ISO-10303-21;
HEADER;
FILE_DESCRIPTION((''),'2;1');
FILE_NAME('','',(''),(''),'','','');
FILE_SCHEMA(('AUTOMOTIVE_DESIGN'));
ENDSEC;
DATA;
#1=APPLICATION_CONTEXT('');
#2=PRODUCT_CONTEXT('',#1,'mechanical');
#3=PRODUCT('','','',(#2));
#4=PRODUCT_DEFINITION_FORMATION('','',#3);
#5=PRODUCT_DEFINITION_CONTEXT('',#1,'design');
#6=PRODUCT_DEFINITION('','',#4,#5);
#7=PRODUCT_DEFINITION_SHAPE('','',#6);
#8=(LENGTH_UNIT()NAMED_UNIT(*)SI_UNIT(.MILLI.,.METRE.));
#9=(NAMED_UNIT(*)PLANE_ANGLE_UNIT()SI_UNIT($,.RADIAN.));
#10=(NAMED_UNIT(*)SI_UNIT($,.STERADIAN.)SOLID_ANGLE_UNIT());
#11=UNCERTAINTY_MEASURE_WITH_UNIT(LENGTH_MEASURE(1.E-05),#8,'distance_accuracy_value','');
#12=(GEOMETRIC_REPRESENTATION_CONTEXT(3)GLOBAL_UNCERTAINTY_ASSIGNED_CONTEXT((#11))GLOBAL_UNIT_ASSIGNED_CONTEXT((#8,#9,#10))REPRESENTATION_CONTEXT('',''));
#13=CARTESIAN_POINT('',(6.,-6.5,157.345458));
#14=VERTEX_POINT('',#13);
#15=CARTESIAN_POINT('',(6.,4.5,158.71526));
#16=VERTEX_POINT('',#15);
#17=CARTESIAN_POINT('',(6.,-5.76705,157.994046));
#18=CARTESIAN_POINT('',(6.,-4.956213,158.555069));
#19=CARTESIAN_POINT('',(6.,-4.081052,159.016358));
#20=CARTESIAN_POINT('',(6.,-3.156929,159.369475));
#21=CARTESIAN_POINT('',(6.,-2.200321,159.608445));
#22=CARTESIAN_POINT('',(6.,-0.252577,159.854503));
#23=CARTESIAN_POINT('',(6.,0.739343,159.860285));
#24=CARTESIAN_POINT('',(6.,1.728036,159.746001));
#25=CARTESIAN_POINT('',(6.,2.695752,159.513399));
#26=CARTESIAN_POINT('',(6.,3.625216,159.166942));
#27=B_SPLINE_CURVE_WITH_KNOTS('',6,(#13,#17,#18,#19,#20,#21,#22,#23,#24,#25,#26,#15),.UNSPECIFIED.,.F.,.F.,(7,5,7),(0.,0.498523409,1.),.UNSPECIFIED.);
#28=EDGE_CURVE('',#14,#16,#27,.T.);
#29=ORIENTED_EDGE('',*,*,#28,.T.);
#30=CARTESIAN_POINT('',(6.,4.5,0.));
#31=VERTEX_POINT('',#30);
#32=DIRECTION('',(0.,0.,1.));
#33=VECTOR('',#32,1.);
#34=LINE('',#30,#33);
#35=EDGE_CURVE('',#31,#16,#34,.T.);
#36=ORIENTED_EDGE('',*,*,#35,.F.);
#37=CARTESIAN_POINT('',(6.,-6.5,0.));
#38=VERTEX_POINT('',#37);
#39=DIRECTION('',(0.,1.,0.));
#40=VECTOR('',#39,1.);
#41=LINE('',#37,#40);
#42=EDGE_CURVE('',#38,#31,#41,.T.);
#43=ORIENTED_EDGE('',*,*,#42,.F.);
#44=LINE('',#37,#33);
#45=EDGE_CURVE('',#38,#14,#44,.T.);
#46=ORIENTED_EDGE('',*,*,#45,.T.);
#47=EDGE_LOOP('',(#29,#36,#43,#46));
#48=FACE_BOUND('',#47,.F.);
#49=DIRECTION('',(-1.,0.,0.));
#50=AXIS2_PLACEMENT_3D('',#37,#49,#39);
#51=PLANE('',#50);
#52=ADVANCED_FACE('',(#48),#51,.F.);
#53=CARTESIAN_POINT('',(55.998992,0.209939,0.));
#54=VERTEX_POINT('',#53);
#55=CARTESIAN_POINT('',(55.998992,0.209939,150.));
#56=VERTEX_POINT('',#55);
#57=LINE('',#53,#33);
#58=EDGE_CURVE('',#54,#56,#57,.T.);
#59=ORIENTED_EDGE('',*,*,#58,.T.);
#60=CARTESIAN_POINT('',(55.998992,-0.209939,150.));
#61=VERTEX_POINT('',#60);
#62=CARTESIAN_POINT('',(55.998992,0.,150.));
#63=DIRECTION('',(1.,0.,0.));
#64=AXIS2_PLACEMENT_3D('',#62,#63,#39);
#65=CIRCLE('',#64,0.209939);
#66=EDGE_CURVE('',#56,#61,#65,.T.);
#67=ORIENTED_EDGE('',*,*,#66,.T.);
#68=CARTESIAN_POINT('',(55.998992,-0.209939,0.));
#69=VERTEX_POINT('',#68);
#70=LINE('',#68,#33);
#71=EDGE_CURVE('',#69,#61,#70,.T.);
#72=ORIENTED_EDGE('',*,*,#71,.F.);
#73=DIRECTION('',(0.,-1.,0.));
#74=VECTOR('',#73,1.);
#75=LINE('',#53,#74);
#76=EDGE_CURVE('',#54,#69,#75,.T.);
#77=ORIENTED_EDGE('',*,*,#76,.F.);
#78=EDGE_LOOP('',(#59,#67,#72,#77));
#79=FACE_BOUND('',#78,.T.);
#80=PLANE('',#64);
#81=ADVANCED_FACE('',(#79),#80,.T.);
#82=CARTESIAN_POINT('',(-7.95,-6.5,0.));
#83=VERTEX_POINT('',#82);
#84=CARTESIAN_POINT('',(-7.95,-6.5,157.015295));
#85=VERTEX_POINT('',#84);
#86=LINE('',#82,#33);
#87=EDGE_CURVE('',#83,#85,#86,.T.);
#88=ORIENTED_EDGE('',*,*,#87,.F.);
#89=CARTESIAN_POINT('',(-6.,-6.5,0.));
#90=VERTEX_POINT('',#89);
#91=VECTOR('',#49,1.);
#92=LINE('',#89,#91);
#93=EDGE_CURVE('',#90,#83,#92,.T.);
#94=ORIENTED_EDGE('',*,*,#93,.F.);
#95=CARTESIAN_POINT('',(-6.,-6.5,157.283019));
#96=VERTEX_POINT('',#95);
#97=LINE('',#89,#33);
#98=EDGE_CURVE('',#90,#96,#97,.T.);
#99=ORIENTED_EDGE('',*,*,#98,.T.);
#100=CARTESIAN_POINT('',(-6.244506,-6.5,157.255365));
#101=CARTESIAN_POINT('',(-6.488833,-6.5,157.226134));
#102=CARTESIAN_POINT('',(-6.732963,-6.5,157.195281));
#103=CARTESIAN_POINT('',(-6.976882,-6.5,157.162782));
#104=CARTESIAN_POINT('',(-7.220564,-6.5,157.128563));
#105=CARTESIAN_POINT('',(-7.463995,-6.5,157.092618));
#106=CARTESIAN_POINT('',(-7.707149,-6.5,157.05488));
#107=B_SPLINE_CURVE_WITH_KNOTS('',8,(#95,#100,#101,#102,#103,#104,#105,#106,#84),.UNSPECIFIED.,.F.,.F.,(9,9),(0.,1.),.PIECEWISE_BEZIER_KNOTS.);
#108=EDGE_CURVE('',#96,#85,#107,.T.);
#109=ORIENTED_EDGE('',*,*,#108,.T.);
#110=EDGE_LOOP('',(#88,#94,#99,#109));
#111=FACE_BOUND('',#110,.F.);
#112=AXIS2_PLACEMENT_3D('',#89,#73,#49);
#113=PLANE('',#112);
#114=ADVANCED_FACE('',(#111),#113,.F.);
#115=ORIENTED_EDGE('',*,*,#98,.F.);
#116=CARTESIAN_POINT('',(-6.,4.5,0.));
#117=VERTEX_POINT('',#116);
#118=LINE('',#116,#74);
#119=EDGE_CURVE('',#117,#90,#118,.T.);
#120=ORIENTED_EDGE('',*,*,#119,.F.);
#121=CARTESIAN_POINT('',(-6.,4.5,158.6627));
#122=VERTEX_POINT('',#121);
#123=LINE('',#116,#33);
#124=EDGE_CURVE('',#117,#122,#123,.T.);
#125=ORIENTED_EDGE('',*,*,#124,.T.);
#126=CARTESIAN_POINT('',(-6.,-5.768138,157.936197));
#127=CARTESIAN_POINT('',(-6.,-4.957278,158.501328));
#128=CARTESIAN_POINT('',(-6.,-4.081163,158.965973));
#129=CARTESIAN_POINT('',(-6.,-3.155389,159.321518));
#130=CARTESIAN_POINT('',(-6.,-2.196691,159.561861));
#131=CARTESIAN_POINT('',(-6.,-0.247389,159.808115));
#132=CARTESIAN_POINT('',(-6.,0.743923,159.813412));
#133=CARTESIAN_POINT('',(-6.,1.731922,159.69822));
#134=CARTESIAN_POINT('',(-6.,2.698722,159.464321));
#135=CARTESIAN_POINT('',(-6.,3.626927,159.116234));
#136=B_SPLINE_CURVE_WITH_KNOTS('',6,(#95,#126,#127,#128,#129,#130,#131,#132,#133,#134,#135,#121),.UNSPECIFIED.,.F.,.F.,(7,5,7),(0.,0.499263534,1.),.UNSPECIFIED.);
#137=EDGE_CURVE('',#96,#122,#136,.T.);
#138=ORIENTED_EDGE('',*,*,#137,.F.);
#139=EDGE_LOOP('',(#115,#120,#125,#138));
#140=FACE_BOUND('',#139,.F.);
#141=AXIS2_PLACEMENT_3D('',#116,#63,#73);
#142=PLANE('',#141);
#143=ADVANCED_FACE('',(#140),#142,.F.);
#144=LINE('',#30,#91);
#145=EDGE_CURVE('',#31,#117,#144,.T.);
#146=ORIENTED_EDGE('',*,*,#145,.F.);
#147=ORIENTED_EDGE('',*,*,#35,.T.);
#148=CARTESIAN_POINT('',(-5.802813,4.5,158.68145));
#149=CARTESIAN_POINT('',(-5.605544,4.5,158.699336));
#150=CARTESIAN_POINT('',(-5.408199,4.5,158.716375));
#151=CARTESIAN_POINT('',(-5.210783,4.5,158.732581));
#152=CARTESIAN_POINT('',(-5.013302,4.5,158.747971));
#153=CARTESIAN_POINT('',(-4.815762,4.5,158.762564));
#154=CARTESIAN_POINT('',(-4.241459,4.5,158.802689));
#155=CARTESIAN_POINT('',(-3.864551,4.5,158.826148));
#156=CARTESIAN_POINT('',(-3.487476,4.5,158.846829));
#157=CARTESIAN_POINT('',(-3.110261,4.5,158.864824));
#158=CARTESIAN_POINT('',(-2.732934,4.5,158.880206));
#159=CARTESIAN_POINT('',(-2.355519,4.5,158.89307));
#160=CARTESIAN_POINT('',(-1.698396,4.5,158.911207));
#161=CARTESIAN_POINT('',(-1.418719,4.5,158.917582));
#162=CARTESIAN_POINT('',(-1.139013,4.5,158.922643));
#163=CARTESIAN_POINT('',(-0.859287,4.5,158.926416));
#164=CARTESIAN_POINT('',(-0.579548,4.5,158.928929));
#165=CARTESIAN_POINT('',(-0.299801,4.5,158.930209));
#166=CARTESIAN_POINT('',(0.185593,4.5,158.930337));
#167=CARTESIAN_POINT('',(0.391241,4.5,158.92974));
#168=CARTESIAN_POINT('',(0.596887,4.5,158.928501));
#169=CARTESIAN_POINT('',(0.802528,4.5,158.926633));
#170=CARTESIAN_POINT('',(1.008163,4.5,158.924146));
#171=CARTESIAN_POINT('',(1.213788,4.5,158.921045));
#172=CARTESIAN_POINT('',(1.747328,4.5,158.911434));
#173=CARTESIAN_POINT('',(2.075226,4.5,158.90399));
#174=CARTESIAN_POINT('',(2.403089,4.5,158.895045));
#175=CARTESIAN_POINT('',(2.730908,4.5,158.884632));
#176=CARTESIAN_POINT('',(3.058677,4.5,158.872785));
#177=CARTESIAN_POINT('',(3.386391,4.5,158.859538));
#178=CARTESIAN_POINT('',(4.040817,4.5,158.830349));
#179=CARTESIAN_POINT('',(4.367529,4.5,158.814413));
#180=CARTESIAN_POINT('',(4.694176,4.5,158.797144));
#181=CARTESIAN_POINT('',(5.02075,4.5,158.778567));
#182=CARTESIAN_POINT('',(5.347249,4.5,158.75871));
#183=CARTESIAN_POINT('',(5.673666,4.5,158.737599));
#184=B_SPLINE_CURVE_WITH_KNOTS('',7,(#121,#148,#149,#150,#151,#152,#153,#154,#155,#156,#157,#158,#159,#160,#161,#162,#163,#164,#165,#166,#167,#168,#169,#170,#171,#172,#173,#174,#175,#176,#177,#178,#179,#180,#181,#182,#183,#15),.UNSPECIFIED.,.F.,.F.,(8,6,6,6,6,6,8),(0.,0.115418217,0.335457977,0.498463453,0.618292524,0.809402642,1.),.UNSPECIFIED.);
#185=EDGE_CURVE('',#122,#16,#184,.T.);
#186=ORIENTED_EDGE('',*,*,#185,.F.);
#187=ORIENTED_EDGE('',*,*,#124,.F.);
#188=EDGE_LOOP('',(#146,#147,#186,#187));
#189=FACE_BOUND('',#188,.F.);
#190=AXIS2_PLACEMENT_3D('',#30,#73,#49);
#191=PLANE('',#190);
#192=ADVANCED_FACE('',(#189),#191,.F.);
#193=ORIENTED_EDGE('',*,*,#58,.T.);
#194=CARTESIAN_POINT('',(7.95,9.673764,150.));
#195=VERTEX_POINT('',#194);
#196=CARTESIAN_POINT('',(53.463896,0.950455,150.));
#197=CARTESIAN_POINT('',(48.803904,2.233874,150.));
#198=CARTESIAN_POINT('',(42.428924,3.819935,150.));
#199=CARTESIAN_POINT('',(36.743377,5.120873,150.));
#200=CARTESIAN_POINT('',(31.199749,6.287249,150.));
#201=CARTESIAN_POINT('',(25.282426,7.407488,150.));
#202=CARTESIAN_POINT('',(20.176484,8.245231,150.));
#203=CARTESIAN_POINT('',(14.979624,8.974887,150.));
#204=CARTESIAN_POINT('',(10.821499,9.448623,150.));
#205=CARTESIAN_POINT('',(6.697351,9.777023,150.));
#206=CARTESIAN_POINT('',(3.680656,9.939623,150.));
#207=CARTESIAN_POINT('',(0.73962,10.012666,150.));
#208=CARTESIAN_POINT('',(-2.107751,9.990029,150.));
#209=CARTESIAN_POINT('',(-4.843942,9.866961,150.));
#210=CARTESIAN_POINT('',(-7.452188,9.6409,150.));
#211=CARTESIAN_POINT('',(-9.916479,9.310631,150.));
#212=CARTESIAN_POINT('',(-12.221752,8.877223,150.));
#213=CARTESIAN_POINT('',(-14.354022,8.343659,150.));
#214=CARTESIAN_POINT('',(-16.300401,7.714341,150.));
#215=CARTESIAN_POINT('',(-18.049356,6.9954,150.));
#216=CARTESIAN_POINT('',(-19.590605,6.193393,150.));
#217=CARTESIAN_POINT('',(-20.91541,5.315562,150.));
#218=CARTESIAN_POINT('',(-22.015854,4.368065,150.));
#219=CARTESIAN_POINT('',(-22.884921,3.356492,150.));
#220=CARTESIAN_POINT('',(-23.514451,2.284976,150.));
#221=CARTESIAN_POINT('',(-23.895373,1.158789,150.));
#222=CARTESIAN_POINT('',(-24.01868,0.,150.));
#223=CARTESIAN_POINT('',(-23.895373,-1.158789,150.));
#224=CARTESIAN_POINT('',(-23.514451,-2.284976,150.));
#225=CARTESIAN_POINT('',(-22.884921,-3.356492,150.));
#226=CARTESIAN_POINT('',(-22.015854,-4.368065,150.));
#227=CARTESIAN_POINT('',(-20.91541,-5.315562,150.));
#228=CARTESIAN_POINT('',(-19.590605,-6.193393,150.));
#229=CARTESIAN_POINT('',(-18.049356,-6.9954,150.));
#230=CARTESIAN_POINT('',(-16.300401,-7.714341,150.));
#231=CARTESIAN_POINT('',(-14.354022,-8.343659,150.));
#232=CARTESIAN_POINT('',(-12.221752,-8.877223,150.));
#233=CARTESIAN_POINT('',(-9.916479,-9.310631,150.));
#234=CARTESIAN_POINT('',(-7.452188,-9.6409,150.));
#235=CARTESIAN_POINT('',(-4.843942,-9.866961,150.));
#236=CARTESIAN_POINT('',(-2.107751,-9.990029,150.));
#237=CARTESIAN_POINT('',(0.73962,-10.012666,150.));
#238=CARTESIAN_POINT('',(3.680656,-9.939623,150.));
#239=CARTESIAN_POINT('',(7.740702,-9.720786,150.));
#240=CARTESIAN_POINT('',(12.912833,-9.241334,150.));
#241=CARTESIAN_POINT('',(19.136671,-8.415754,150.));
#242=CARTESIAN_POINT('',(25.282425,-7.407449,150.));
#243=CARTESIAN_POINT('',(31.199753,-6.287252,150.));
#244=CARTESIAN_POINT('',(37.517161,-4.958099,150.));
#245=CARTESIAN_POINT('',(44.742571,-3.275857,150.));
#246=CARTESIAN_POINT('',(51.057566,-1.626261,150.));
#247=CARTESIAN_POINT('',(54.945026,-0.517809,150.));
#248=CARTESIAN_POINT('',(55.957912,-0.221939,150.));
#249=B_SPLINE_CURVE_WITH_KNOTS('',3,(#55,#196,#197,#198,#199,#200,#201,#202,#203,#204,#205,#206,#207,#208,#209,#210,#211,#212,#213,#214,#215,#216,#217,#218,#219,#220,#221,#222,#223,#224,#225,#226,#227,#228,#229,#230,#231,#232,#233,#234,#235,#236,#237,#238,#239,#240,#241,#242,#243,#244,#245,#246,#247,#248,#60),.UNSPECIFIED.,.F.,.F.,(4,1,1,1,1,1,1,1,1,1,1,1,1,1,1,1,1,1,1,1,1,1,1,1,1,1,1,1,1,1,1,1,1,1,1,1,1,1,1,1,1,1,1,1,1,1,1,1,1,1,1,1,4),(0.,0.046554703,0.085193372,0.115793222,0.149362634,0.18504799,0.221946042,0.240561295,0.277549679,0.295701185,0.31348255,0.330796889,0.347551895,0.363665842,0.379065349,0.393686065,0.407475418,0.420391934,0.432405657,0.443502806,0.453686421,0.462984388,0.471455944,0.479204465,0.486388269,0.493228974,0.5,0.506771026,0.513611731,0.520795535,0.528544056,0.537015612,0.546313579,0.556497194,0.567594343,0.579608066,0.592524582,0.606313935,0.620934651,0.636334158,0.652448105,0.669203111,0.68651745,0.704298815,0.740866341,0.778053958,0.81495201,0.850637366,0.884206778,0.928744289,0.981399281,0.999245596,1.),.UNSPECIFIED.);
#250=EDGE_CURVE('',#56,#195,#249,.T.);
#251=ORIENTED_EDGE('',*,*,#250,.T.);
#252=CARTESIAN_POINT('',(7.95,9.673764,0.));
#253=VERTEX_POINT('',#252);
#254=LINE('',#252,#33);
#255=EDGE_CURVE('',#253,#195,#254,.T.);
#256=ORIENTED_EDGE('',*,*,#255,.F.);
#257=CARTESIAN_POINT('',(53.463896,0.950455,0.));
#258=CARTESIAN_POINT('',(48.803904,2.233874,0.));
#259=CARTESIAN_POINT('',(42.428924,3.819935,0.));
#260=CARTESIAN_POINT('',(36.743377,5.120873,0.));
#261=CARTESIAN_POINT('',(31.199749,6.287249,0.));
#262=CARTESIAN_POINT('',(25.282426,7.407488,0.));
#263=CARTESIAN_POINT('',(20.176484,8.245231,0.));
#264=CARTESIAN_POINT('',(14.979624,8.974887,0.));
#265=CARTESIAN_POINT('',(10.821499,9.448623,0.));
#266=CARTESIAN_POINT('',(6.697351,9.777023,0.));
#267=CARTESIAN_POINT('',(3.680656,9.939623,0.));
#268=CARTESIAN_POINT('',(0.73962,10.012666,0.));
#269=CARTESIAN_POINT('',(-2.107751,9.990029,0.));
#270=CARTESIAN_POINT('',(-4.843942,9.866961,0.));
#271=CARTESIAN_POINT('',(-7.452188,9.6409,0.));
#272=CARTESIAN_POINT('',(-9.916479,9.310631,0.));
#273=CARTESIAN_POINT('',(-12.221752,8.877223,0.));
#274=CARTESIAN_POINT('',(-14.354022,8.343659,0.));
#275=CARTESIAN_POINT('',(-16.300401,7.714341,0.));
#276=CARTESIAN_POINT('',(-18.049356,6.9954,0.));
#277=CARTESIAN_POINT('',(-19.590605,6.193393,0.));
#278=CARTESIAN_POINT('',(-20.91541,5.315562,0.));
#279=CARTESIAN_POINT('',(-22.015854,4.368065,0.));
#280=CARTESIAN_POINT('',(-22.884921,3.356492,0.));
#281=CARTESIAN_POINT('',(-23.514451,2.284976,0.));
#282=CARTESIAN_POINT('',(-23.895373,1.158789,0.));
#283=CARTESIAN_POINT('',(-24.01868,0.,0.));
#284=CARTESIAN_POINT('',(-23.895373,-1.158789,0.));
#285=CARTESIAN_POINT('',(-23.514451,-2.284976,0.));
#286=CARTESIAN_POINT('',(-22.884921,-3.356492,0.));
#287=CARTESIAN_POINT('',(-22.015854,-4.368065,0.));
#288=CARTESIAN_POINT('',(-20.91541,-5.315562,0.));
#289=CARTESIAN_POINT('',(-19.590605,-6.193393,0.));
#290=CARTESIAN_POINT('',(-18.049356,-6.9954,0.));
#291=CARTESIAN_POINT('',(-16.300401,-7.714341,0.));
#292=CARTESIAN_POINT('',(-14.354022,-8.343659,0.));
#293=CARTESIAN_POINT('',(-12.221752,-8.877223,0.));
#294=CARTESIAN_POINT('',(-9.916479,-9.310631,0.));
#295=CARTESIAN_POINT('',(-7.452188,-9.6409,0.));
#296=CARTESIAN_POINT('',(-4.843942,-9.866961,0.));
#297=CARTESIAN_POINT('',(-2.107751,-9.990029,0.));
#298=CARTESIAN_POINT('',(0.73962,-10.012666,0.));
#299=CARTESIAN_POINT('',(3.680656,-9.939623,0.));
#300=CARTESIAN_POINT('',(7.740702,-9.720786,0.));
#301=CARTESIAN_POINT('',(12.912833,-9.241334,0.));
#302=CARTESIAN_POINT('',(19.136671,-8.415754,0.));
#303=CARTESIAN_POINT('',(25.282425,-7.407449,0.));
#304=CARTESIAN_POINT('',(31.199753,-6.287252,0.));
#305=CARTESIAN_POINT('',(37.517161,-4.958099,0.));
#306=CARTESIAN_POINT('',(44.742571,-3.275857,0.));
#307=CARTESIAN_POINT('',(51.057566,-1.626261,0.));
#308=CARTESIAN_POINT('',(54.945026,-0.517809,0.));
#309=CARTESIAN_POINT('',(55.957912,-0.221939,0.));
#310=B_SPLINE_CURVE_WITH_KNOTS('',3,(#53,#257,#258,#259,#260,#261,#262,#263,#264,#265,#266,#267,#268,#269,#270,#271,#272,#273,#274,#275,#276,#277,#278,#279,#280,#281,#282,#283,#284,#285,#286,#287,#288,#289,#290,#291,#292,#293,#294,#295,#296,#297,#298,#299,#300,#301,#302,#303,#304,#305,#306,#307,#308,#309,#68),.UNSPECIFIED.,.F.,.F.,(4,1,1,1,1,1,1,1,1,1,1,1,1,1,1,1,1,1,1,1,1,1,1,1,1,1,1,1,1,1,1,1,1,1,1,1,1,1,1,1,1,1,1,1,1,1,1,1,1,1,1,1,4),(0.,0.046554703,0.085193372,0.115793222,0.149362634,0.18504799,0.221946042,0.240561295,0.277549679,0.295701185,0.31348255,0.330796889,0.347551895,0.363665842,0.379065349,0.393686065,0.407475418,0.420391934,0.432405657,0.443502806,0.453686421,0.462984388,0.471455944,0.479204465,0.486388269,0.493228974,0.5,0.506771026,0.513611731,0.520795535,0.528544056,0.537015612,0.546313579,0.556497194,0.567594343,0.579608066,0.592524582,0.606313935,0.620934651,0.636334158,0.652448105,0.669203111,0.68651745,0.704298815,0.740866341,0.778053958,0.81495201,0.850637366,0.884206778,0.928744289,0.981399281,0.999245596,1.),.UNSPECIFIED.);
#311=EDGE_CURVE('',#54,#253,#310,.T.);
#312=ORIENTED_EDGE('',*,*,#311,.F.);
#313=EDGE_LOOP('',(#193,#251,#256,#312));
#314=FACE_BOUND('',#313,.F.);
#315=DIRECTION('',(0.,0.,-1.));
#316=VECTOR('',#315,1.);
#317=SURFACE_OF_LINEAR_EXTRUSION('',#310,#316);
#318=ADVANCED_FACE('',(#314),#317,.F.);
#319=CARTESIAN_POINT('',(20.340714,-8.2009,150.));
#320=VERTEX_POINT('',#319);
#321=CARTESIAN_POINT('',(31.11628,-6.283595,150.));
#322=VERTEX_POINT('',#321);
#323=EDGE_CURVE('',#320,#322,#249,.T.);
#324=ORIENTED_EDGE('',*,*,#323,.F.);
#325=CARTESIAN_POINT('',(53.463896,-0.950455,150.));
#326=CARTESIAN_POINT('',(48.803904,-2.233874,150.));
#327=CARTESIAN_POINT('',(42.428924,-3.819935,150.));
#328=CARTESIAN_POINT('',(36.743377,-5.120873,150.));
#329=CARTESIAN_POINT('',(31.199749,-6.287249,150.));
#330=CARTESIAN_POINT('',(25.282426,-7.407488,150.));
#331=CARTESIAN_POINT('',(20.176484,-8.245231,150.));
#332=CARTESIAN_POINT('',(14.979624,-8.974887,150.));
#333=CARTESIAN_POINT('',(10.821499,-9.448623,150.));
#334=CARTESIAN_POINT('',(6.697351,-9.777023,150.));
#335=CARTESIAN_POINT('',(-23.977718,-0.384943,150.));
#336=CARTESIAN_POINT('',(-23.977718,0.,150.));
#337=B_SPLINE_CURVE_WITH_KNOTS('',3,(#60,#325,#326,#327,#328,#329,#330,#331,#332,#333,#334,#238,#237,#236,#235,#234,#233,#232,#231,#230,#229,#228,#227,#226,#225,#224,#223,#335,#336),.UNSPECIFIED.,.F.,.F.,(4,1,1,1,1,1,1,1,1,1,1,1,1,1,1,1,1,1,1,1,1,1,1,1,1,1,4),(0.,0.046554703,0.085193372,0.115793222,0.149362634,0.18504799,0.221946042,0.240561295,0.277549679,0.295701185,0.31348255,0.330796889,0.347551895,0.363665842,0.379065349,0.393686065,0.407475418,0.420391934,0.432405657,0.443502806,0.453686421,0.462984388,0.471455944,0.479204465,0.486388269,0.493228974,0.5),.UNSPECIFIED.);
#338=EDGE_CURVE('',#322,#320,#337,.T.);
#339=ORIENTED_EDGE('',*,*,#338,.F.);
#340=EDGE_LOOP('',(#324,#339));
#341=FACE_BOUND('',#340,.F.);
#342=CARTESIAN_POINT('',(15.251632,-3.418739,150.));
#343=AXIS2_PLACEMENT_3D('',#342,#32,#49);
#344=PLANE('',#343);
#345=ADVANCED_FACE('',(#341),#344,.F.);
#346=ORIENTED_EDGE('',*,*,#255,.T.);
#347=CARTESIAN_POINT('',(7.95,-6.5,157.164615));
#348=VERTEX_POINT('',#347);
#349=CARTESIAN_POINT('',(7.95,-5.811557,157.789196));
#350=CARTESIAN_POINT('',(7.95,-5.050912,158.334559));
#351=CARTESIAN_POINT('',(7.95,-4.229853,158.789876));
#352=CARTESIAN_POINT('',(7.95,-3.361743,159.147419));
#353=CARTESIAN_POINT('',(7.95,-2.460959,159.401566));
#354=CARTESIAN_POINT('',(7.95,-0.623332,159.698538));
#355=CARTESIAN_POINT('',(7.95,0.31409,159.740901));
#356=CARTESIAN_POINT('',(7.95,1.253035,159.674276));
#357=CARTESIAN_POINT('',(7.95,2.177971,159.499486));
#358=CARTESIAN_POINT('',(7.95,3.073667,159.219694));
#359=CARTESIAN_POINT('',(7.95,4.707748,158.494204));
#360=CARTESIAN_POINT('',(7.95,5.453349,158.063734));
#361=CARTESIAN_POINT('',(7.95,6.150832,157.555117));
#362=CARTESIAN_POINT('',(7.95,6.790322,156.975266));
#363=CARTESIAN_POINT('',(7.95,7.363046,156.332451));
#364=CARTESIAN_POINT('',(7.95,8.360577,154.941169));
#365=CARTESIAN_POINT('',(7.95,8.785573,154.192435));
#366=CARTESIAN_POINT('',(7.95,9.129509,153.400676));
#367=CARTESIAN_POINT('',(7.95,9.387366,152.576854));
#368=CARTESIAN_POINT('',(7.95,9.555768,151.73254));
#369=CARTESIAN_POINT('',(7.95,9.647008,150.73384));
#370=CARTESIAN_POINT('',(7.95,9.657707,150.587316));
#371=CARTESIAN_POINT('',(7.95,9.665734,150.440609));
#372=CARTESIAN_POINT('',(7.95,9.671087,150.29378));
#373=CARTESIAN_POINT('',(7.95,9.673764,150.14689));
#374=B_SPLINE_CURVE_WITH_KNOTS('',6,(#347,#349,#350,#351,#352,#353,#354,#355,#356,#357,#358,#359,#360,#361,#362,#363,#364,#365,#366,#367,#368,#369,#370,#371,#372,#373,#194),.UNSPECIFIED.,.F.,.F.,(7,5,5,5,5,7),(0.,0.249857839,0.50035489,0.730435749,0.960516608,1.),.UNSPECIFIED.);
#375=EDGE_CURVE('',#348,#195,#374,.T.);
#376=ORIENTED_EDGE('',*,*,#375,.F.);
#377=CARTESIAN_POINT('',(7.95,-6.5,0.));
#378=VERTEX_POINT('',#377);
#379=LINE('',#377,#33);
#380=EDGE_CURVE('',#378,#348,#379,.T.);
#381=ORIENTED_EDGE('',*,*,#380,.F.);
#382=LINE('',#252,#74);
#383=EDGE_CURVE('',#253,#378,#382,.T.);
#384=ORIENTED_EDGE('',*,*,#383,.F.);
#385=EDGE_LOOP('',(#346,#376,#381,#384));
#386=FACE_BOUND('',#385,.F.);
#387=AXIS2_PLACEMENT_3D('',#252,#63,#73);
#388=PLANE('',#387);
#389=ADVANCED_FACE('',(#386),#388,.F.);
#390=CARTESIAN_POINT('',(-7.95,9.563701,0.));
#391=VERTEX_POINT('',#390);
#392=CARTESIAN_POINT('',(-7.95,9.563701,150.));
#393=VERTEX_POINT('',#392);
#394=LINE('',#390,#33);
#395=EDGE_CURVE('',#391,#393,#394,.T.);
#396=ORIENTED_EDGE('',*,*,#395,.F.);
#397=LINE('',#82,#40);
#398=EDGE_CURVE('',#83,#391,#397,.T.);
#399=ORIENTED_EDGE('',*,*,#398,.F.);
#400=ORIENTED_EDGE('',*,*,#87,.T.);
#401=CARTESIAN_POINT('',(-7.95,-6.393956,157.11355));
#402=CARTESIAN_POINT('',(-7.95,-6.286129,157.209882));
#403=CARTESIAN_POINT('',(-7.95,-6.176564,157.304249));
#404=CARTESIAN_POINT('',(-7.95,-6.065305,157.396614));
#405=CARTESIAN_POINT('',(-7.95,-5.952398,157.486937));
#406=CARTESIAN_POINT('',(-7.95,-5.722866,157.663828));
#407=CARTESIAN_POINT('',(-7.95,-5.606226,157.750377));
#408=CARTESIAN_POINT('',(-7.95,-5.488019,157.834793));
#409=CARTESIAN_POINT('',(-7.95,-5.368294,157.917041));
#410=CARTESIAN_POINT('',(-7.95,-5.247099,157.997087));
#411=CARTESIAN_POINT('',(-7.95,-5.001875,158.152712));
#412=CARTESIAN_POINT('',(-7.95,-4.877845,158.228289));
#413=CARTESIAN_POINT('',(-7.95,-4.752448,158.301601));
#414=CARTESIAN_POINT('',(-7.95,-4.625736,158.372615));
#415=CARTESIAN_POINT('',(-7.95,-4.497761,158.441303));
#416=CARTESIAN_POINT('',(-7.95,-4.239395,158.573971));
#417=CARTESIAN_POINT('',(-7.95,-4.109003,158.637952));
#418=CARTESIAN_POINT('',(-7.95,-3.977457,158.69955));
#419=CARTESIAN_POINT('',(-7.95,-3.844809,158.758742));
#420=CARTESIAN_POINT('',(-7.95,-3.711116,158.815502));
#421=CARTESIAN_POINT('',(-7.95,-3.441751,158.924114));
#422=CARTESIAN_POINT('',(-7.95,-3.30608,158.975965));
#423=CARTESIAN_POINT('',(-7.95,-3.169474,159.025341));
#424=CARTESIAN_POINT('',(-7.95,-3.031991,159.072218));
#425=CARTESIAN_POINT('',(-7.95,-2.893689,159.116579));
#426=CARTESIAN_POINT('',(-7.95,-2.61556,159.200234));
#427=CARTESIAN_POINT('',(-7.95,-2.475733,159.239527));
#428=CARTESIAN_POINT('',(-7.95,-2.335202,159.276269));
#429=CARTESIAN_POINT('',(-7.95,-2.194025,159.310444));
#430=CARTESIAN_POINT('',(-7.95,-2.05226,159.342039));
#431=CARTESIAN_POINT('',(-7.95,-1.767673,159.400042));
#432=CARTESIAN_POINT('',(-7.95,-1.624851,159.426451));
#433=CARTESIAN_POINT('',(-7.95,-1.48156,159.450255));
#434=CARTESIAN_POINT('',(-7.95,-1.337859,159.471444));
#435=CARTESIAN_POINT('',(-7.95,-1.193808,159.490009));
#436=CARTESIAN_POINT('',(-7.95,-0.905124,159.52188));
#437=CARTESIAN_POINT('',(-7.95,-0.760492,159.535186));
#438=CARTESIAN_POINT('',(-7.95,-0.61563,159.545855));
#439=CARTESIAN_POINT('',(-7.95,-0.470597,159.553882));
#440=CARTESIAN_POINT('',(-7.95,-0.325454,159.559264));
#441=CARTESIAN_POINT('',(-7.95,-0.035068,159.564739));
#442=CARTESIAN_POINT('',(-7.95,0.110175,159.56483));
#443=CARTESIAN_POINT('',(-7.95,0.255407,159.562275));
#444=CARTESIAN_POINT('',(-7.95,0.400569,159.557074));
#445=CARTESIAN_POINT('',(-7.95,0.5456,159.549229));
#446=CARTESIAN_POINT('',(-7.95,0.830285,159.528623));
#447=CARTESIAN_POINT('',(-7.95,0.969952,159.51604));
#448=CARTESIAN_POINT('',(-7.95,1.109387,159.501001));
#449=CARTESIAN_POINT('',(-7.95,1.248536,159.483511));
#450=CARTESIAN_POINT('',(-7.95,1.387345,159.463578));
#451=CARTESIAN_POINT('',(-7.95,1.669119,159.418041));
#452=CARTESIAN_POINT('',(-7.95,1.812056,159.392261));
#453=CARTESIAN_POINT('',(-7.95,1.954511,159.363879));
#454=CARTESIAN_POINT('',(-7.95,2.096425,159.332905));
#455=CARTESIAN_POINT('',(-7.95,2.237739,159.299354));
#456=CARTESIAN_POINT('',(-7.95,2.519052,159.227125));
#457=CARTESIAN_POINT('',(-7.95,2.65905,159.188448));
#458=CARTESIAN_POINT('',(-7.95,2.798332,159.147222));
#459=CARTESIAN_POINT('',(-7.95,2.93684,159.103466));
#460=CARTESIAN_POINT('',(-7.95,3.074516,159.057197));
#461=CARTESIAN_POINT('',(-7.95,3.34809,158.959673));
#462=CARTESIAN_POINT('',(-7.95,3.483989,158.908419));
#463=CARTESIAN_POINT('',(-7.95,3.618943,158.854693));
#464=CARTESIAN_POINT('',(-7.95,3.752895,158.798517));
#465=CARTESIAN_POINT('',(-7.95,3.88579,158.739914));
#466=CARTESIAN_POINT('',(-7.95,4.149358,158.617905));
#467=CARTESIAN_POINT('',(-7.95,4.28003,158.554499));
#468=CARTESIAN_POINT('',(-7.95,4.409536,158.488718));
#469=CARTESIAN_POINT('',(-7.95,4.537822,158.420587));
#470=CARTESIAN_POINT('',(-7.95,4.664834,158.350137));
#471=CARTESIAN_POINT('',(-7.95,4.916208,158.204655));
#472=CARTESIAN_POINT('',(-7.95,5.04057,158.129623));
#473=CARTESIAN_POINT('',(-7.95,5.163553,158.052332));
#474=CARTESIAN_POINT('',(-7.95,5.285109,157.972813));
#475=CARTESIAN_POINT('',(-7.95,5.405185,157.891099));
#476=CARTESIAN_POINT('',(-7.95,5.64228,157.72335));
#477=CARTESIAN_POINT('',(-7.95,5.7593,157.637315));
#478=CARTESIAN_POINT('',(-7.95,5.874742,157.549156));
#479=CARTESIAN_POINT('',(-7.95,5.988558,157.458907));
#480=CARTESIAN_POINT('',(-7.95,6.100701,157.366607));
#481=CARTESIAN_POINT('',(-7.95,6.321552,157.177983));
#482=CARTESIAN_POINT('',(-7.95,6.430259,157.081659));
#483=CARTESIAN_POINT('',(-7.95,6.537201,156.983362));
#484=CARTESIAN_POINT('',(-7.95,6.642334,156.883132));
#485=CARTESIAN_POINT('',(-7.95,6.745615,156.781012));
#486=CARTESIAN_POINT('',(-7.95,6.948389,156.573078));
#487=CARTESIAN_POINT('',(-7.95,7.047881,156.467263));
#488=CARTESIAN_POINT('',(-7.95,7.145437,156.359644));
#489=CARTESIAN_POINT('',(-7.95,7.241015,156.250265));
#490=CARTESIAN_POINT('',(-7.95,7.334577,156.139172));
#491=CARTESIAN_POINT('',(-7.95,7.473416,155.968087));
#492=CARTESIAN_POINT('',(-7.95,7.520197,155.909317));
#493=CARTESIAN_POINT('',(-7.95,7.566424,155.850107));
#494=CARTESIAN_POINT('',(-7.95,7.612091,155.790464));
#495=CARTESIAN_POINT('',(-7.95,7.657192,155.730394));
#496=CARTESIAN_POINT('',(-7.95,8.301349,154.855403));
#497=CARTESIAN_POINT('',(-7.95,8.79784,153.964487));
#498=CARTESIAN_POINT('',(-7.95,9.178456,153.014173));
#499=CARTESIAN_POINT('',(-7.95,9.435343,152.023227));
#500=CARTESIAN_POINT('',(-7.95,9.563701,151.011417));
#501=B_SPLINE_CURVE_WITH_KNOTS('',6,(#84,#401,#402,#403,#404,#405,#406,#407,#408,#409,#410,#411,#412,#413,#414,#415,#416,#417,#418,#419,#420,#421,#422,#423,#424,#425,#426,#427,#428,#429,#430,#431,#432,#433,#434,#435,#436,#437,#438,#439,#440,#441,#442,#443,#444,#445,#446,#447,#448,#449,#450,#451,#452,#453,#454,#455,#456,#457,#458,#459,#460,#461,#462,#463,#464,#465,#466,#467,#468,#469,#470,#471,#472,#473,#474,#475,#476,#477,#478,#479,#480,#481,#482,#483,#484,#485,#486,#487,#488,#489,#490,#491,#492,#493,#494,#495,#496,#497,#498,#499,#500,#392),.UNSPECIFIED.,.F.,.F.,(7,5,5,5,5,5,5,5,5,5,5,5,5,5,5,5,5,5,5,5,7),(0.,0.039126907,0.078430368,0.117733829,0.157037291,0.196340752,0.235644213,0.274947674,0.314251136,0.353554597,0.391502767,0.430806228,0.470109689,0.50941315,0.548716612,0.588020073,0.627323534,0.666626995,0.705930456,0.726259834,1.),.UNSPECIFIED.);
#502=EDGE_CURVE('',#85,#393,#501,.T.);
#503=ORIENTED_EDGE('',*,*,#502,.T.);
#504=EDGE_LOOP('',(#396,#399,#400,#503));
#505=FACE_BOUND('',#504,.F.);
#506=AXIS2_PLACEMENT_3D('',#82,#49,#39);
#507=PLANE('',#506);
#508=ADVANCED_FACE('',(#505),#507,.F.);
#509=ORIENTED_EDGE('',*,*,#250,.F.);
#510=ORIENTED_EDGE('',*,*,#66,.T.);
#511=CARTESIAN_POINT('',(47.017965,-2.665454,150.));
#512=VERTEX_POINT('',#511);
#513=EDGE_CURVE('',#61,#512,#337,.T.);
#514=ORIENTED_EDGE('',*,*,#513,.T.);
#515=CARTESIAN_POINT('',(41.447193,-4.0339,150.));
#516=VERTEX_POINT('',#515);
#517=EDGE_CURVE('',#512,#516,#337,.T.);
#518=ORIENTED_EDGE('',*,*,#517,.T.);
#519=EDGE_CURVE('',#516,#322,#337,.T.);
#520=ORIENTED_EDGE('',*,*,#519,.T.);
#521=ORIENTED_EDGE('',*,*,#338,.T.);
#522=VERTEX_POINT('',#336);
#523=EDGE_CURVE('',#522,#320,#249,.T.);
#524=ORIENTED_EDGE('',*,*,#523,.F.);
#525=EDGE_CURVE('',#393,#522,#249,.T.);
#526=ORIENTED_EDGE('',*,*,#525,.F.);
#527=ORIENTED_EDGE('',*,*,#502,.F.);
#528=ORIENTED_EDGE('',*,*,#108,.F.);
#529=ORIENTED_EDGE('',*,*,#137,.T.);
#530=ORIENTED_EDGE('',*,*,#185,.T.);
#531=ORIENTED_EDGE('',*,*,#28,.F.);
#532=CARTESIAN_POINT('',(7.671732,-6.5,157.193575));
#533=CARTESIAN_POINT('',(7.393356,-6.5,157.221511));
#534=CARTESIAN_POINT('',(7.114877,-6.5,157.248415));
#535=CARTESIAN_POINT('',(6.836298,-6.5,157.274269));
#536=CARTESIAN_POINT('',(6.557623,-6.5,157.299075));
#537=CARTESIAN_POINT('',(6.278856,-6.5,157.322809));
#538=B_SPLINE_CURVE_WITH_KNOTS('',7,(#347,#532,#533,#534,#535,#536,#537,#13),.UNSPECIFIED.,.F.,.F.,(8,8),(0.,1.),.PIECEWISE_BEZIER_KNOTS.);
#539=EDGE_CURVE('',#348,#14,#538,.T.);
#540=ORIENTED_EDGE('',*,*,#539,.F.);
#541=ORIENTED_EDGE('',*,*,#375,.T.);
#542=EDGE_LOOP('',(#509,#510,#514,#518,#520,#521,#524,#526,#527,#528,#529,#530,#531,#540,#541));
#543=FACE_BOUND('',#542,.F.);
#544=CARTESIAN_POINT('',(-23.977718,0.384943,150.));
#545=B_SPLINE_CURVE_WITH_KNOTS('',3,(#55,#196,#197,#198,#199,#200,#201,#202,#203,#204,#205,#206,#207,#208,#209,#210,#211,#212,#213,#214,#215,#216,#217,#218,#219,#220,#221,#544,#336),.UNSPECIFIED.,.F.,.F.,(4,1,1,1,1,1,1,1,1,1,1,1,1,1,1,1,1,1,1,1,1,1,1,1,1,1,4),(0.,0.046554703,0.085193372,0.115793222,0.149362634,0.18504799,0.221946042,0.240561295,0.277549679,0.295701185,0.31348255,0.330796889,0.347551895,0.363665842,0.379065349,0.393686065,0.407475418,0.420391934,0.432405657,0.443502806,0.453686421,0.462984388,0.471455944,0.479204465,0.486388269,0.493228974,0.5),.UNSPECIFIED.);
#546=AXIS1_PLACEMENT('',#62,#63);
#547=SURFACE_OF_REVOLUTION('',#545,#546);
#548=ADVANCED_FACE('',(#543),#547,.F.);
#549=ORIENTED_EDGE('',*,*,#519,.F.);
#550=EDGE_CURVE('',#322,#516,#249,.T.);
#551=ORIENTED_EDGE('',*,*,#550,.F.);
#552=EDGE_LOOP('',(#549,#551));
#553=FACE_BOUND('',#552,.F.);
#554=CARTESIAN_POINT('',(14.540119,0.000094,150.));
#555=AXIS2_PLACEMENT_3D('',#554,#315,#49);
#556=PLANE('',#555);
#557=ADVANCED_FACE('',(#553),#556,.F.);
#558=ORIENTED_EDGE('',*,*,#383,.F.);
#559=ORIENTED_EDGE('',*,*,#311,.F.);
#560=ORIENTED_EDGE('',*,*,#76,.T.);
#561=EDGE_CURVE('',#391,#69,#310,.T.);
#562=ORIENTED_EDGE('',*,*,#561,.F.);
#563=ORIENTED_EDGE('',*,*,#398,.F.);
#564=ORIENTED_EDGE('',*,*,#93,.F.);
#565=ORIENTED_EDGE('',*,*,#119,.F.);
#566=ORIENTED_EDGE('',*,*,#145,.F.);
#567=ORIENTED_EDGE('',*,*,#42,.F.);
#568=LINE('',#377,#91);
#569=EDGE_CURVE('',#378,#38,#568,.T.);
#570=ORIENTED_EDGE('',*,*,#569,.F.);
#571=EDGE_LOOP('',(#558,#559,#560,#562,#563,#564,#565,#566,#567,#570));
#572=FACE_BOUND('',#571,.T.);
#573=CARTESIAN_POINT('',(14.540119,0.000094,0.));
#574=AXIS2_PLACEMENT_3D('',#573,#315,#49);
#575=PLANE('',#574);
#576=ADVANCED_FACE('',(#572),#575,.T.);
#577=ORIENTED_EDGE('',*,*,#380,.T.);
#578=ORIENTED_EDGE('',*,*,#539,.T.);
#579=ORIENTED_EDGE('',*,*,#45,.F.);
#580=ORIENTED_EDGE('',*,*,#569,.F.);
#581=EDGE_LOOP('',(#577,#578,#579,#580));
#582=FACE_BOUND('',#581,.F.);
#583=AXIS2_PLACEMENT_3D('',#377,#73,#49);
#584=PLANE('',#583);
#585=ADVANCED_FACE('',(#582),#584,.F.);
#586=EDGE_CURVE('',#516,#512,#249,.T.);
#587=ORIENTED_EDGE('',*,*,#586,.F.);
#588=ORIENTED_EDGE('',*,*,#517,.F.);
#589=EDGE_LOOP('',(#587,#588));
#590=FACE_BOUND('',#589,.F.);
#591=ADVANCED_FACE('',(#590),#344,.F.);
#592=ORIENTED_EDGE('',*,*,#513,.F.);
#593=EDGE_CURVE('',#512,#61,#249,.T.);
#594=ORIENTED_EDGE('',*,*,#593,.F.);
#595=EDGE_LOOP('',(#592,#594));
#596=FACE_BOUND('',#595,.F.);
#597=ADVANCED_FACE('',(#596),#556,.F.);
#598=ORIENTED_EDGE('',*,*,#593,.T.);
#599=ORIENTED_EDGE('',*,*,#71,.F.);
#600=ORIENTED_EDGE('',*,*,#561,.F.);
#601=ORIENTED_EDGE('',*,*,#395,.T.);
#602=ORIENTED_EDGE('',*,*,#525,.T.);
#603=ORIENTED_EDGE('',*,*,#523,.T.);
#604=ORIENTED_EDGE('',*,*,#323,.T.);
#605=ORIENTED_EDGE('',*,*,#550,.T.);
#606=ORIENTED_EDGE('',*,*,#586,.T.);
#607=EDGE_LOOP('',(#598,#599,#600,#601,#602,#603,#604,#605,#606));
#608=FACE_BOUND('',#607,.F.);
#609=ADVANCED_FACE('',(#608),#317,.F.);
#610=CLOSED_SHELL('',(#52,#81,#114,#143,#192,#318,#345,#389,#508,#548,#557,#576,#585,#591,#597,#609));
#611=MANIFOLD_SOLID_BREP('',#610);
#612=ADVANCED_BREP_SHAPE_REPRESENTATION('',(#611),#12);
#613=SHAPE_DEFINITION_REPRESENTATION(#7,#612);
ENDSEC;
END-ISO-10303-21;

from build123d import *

# Parameters (mm, degrees)
BOSS_EXTRUDE1_DEPTH = 150
REVOLVE1_ANGLE      = 180
CUT_EXTRUDE1_REACH  = 162


with BuildPart() as part:
    # Sketch2 → Boss-Extrude1 (new body)
    with BuildSketch(Plane.XY):
        with BuildLine():
            Line((55.998991919, 0.209938863), (55.998991919, -0.209938863))
            add(Edge.make_bspline(
                [(55.998991919, 0.209938863), (53.463896497, 0.950455214), (48.803904258, 2.233873897), (42.428923908, 3.819934884), (36.743376831, 5.120873453), (31.199749362, 6.287249396), (25.282426203, 7.407488419), (20.176484373, 8.245231015), (14.979623954, 8.974887306), (10.821499069, 9.44862332), (6.697350987, 9.777022894), (3.680655604, 9.939622605), (0.739619613, 10.012665726), (-2.107751213, 9.990028944), (-4.843941705, 9.866960982), (-7.452188048, 9.640899897), (-9.916478705, 9.310630744), (-12.221751766, 8.877222993), (-14.354021752, 8.343659433), (-16.300401345, 7.714341159), (-18.049355518, 6.995399514), (-19.590605164, 6.19339349), (-20.915410238, 5.315562027), (-22.015853697, 4.368064829), (-22.884921184, 3.356491652), (-23.514451457, 2.28497611), (-23.895372624, 1.158788991), (-24.018679664, 0), (-23.895372624, -1.158788991), (-23.514451457, -2.28497611), (-22.884921184, -3.356491652), (-22.015853697, -4.368064829), (-20.915410238, -5.315562027), (-19.590605164, -6.19339349), (-18.049355518, -6.995399514), (-16.300401345, -7.714341159), (-14.354021752, -8.343659433), (-12.221751766, -8.877222993), (-9.916478705, -9.310630744), (-7.452188048, -9.640899897), (-4.843941705, -9.866960982), (-2.107751213, -9.990028944), (0.739619613, -10.012665726), (3.680655604, -9.939622605), (7.74070187, -9.72078634), (12.912832982, -9.241334238), (19.136671313, -8.415754469), (25.28242537, -7.407448977), (31.199752667, -6.287252304), (37.517160947, -4.95809922), (44.742570872, -3.275857272), (51.057566095, -1.626260629), (54.945025722, -0.517808616), (55.95791152, -0.221938691), (55.998991919, -0.209938863)],
                knots=[0, 0, 0, 0, 0.046554703, 0.085193372, 0.115793222, 0.149362634, 0.18504799, 0.221946042, 0.240561295, 0.277549679, 0.295701185, 0.31348255, 0.330796889, 0.347551895, 0.363665842, 0.379065349, 0.393686065, 0.407475418, 0.420391934, 0.432405657, 0.443502806, 0.453686421, 0.462984388, 0.471455944, 0.479204465, 0.486388269, 0.493228974, 0.5, 0.506771026, 0.513611731, 0.520795535, 0.528544056, 0.537015612, 0.546313579, 0.556497194, 0.567594343, 0.579608066, 0.592524582, 0.606313935, 0.620934651, 0.636334158, 0.652448105, 0.669203111, 0.68651745, 0.704298815, 0.740866341, 0.778053958, 0.81495201, 0.850637366, 0.884206778, 0.928744289, 0.981399281, 0.999245596, 1, 1, 1, 1], degree=3))
        make_face()
    extrude(amount=BOSS_EXTRUDE1_DEPTH)

    # Sketch4 → Revolve1 (revolve)
    with BuildSketch(Plane.XY.offset(150)):
        with BuildLine():
            Line((55.998991919, 0), (-23.977717827, 0))
            add(Edge.make_bspline(
                [(55.998991919, 0.209938863), (53.463896497, 0.950455214), (48.803904258, 2.233873897), (42.428923908, 3.819934884), (36.743376831, 5.120873453), (31.199749362, 6.287249396), (25.282426203, 7.407488419), (20.176484373, 8.245231015), (14.979623954, 8.974887306), (10.821499069, 9.44862332), (6.697350987, 9.777022894), (3.680655604, 9.939622605), (0.739619613, 10.012665726), (-2.107751213, 9.990028944), (-4.843941705, 9.866960982), (-7.452188048, 9.640899897), (-9.916478705, 9.310630744), (-12.221751766, 8.877222993), (-14.354021752, 8.343659433), (-16.300401345, 7.714341159), (-18.049355518, 6.995399514), (-19.590605164, 6.19339349), (-20.915410238, 5.315562027), (-22.015853697, 4.368064829), (-22.884921184, 3.356491652), (-23.514451457, 2.28497611), (-23.895372624, 1.158788991), (-23.977717827, 0.384942543), (-23.977717827, 0)],
                knots=[0, 0, 0, 0, 0.046554703, 0.085193372, 0.115793222, 0.149362634, 0.18504799, 0.221946042, 0.240561295, 0.277549679, 0.295701185, 0.31348255, 0.330796889, 0.347551895, 0.363665842, 0.379065349, 0.393686065, 0.407475418, 0.420391934, 0.432405657, 0.443502806, 0.453686421, 0.462984388, 0.471455944, 0.479204465, 0.486388269, 0.493228974, 0.5, 0.5, 0.5, 0.5], degree=3))
            Line((55.998991919, 0.209938863), (55.998991919, 0))
        make_face()
    revolve(axis=Axis((55.998991919, 0, 150), (1, 0, 0)), revolution_arc=REVOLVE1_ANGLE)

    # Sketch3 → Cut-Extrude1 (cut, up to next)
    with BuildSketch(Plane(origin=(0, 0, 0), x_dir=(-1, 0, 0), z_dir=(0, 0, -1)), mode=Mode.PRIVATE) as cut_extrude1_sk1:
        with BuildLine():
            Line((6, -6.5), (7.95, -6.5))
            Line((7.95, -6.5), (7.95, 9.56370057))
            add(Edge.make_bspline(
                [(-7.95, 9.673763928), (-7.525333967, 9.706496284), (-6.094337758, 9.809525273), (-3.680655604, 9.939622605), (-0.739619613, 10.012665726), (2.107751213, 9.990028944), (4.843941705, 9.866960982), (6.778071836, 9.69932668), (7.798061571, 9.581867182), (7.95, 9.56370057)],
                knots=[0.28819337, 0.28819337, 0.28819337, 0.28819337, 0.295701185, 0.31348255, 0.330796889, 0.347551895, 0.363665842, 0.379065349, 0.381762425, 0.381762425, 0.381762425, 0.381762425], degree=3))
            Line((-7.95, 9.673763928), (-7.95, -6.5))
            Line((-7.95, -6.5), (-6, -6.5))
            Line((-6, -6.5), (-6, 4.5))
            Line((-6, 4.5), (6, 4.5))
            Line((6, 4.5), (6, -6.5))
        make_face()
    cut_extrude1_tool1 = extrude(cut_extrude1_sk1.sketch, amount=-CUT_EXTRUDE1_REACH, mode=Mode.PRIVATE) & part.part
    add(cut_extrude1_tool1.solids().sort_by_distance((-6.975, -6.270858, 0))[0], mode=Mode.SUBTRACT)


solid = part.part
